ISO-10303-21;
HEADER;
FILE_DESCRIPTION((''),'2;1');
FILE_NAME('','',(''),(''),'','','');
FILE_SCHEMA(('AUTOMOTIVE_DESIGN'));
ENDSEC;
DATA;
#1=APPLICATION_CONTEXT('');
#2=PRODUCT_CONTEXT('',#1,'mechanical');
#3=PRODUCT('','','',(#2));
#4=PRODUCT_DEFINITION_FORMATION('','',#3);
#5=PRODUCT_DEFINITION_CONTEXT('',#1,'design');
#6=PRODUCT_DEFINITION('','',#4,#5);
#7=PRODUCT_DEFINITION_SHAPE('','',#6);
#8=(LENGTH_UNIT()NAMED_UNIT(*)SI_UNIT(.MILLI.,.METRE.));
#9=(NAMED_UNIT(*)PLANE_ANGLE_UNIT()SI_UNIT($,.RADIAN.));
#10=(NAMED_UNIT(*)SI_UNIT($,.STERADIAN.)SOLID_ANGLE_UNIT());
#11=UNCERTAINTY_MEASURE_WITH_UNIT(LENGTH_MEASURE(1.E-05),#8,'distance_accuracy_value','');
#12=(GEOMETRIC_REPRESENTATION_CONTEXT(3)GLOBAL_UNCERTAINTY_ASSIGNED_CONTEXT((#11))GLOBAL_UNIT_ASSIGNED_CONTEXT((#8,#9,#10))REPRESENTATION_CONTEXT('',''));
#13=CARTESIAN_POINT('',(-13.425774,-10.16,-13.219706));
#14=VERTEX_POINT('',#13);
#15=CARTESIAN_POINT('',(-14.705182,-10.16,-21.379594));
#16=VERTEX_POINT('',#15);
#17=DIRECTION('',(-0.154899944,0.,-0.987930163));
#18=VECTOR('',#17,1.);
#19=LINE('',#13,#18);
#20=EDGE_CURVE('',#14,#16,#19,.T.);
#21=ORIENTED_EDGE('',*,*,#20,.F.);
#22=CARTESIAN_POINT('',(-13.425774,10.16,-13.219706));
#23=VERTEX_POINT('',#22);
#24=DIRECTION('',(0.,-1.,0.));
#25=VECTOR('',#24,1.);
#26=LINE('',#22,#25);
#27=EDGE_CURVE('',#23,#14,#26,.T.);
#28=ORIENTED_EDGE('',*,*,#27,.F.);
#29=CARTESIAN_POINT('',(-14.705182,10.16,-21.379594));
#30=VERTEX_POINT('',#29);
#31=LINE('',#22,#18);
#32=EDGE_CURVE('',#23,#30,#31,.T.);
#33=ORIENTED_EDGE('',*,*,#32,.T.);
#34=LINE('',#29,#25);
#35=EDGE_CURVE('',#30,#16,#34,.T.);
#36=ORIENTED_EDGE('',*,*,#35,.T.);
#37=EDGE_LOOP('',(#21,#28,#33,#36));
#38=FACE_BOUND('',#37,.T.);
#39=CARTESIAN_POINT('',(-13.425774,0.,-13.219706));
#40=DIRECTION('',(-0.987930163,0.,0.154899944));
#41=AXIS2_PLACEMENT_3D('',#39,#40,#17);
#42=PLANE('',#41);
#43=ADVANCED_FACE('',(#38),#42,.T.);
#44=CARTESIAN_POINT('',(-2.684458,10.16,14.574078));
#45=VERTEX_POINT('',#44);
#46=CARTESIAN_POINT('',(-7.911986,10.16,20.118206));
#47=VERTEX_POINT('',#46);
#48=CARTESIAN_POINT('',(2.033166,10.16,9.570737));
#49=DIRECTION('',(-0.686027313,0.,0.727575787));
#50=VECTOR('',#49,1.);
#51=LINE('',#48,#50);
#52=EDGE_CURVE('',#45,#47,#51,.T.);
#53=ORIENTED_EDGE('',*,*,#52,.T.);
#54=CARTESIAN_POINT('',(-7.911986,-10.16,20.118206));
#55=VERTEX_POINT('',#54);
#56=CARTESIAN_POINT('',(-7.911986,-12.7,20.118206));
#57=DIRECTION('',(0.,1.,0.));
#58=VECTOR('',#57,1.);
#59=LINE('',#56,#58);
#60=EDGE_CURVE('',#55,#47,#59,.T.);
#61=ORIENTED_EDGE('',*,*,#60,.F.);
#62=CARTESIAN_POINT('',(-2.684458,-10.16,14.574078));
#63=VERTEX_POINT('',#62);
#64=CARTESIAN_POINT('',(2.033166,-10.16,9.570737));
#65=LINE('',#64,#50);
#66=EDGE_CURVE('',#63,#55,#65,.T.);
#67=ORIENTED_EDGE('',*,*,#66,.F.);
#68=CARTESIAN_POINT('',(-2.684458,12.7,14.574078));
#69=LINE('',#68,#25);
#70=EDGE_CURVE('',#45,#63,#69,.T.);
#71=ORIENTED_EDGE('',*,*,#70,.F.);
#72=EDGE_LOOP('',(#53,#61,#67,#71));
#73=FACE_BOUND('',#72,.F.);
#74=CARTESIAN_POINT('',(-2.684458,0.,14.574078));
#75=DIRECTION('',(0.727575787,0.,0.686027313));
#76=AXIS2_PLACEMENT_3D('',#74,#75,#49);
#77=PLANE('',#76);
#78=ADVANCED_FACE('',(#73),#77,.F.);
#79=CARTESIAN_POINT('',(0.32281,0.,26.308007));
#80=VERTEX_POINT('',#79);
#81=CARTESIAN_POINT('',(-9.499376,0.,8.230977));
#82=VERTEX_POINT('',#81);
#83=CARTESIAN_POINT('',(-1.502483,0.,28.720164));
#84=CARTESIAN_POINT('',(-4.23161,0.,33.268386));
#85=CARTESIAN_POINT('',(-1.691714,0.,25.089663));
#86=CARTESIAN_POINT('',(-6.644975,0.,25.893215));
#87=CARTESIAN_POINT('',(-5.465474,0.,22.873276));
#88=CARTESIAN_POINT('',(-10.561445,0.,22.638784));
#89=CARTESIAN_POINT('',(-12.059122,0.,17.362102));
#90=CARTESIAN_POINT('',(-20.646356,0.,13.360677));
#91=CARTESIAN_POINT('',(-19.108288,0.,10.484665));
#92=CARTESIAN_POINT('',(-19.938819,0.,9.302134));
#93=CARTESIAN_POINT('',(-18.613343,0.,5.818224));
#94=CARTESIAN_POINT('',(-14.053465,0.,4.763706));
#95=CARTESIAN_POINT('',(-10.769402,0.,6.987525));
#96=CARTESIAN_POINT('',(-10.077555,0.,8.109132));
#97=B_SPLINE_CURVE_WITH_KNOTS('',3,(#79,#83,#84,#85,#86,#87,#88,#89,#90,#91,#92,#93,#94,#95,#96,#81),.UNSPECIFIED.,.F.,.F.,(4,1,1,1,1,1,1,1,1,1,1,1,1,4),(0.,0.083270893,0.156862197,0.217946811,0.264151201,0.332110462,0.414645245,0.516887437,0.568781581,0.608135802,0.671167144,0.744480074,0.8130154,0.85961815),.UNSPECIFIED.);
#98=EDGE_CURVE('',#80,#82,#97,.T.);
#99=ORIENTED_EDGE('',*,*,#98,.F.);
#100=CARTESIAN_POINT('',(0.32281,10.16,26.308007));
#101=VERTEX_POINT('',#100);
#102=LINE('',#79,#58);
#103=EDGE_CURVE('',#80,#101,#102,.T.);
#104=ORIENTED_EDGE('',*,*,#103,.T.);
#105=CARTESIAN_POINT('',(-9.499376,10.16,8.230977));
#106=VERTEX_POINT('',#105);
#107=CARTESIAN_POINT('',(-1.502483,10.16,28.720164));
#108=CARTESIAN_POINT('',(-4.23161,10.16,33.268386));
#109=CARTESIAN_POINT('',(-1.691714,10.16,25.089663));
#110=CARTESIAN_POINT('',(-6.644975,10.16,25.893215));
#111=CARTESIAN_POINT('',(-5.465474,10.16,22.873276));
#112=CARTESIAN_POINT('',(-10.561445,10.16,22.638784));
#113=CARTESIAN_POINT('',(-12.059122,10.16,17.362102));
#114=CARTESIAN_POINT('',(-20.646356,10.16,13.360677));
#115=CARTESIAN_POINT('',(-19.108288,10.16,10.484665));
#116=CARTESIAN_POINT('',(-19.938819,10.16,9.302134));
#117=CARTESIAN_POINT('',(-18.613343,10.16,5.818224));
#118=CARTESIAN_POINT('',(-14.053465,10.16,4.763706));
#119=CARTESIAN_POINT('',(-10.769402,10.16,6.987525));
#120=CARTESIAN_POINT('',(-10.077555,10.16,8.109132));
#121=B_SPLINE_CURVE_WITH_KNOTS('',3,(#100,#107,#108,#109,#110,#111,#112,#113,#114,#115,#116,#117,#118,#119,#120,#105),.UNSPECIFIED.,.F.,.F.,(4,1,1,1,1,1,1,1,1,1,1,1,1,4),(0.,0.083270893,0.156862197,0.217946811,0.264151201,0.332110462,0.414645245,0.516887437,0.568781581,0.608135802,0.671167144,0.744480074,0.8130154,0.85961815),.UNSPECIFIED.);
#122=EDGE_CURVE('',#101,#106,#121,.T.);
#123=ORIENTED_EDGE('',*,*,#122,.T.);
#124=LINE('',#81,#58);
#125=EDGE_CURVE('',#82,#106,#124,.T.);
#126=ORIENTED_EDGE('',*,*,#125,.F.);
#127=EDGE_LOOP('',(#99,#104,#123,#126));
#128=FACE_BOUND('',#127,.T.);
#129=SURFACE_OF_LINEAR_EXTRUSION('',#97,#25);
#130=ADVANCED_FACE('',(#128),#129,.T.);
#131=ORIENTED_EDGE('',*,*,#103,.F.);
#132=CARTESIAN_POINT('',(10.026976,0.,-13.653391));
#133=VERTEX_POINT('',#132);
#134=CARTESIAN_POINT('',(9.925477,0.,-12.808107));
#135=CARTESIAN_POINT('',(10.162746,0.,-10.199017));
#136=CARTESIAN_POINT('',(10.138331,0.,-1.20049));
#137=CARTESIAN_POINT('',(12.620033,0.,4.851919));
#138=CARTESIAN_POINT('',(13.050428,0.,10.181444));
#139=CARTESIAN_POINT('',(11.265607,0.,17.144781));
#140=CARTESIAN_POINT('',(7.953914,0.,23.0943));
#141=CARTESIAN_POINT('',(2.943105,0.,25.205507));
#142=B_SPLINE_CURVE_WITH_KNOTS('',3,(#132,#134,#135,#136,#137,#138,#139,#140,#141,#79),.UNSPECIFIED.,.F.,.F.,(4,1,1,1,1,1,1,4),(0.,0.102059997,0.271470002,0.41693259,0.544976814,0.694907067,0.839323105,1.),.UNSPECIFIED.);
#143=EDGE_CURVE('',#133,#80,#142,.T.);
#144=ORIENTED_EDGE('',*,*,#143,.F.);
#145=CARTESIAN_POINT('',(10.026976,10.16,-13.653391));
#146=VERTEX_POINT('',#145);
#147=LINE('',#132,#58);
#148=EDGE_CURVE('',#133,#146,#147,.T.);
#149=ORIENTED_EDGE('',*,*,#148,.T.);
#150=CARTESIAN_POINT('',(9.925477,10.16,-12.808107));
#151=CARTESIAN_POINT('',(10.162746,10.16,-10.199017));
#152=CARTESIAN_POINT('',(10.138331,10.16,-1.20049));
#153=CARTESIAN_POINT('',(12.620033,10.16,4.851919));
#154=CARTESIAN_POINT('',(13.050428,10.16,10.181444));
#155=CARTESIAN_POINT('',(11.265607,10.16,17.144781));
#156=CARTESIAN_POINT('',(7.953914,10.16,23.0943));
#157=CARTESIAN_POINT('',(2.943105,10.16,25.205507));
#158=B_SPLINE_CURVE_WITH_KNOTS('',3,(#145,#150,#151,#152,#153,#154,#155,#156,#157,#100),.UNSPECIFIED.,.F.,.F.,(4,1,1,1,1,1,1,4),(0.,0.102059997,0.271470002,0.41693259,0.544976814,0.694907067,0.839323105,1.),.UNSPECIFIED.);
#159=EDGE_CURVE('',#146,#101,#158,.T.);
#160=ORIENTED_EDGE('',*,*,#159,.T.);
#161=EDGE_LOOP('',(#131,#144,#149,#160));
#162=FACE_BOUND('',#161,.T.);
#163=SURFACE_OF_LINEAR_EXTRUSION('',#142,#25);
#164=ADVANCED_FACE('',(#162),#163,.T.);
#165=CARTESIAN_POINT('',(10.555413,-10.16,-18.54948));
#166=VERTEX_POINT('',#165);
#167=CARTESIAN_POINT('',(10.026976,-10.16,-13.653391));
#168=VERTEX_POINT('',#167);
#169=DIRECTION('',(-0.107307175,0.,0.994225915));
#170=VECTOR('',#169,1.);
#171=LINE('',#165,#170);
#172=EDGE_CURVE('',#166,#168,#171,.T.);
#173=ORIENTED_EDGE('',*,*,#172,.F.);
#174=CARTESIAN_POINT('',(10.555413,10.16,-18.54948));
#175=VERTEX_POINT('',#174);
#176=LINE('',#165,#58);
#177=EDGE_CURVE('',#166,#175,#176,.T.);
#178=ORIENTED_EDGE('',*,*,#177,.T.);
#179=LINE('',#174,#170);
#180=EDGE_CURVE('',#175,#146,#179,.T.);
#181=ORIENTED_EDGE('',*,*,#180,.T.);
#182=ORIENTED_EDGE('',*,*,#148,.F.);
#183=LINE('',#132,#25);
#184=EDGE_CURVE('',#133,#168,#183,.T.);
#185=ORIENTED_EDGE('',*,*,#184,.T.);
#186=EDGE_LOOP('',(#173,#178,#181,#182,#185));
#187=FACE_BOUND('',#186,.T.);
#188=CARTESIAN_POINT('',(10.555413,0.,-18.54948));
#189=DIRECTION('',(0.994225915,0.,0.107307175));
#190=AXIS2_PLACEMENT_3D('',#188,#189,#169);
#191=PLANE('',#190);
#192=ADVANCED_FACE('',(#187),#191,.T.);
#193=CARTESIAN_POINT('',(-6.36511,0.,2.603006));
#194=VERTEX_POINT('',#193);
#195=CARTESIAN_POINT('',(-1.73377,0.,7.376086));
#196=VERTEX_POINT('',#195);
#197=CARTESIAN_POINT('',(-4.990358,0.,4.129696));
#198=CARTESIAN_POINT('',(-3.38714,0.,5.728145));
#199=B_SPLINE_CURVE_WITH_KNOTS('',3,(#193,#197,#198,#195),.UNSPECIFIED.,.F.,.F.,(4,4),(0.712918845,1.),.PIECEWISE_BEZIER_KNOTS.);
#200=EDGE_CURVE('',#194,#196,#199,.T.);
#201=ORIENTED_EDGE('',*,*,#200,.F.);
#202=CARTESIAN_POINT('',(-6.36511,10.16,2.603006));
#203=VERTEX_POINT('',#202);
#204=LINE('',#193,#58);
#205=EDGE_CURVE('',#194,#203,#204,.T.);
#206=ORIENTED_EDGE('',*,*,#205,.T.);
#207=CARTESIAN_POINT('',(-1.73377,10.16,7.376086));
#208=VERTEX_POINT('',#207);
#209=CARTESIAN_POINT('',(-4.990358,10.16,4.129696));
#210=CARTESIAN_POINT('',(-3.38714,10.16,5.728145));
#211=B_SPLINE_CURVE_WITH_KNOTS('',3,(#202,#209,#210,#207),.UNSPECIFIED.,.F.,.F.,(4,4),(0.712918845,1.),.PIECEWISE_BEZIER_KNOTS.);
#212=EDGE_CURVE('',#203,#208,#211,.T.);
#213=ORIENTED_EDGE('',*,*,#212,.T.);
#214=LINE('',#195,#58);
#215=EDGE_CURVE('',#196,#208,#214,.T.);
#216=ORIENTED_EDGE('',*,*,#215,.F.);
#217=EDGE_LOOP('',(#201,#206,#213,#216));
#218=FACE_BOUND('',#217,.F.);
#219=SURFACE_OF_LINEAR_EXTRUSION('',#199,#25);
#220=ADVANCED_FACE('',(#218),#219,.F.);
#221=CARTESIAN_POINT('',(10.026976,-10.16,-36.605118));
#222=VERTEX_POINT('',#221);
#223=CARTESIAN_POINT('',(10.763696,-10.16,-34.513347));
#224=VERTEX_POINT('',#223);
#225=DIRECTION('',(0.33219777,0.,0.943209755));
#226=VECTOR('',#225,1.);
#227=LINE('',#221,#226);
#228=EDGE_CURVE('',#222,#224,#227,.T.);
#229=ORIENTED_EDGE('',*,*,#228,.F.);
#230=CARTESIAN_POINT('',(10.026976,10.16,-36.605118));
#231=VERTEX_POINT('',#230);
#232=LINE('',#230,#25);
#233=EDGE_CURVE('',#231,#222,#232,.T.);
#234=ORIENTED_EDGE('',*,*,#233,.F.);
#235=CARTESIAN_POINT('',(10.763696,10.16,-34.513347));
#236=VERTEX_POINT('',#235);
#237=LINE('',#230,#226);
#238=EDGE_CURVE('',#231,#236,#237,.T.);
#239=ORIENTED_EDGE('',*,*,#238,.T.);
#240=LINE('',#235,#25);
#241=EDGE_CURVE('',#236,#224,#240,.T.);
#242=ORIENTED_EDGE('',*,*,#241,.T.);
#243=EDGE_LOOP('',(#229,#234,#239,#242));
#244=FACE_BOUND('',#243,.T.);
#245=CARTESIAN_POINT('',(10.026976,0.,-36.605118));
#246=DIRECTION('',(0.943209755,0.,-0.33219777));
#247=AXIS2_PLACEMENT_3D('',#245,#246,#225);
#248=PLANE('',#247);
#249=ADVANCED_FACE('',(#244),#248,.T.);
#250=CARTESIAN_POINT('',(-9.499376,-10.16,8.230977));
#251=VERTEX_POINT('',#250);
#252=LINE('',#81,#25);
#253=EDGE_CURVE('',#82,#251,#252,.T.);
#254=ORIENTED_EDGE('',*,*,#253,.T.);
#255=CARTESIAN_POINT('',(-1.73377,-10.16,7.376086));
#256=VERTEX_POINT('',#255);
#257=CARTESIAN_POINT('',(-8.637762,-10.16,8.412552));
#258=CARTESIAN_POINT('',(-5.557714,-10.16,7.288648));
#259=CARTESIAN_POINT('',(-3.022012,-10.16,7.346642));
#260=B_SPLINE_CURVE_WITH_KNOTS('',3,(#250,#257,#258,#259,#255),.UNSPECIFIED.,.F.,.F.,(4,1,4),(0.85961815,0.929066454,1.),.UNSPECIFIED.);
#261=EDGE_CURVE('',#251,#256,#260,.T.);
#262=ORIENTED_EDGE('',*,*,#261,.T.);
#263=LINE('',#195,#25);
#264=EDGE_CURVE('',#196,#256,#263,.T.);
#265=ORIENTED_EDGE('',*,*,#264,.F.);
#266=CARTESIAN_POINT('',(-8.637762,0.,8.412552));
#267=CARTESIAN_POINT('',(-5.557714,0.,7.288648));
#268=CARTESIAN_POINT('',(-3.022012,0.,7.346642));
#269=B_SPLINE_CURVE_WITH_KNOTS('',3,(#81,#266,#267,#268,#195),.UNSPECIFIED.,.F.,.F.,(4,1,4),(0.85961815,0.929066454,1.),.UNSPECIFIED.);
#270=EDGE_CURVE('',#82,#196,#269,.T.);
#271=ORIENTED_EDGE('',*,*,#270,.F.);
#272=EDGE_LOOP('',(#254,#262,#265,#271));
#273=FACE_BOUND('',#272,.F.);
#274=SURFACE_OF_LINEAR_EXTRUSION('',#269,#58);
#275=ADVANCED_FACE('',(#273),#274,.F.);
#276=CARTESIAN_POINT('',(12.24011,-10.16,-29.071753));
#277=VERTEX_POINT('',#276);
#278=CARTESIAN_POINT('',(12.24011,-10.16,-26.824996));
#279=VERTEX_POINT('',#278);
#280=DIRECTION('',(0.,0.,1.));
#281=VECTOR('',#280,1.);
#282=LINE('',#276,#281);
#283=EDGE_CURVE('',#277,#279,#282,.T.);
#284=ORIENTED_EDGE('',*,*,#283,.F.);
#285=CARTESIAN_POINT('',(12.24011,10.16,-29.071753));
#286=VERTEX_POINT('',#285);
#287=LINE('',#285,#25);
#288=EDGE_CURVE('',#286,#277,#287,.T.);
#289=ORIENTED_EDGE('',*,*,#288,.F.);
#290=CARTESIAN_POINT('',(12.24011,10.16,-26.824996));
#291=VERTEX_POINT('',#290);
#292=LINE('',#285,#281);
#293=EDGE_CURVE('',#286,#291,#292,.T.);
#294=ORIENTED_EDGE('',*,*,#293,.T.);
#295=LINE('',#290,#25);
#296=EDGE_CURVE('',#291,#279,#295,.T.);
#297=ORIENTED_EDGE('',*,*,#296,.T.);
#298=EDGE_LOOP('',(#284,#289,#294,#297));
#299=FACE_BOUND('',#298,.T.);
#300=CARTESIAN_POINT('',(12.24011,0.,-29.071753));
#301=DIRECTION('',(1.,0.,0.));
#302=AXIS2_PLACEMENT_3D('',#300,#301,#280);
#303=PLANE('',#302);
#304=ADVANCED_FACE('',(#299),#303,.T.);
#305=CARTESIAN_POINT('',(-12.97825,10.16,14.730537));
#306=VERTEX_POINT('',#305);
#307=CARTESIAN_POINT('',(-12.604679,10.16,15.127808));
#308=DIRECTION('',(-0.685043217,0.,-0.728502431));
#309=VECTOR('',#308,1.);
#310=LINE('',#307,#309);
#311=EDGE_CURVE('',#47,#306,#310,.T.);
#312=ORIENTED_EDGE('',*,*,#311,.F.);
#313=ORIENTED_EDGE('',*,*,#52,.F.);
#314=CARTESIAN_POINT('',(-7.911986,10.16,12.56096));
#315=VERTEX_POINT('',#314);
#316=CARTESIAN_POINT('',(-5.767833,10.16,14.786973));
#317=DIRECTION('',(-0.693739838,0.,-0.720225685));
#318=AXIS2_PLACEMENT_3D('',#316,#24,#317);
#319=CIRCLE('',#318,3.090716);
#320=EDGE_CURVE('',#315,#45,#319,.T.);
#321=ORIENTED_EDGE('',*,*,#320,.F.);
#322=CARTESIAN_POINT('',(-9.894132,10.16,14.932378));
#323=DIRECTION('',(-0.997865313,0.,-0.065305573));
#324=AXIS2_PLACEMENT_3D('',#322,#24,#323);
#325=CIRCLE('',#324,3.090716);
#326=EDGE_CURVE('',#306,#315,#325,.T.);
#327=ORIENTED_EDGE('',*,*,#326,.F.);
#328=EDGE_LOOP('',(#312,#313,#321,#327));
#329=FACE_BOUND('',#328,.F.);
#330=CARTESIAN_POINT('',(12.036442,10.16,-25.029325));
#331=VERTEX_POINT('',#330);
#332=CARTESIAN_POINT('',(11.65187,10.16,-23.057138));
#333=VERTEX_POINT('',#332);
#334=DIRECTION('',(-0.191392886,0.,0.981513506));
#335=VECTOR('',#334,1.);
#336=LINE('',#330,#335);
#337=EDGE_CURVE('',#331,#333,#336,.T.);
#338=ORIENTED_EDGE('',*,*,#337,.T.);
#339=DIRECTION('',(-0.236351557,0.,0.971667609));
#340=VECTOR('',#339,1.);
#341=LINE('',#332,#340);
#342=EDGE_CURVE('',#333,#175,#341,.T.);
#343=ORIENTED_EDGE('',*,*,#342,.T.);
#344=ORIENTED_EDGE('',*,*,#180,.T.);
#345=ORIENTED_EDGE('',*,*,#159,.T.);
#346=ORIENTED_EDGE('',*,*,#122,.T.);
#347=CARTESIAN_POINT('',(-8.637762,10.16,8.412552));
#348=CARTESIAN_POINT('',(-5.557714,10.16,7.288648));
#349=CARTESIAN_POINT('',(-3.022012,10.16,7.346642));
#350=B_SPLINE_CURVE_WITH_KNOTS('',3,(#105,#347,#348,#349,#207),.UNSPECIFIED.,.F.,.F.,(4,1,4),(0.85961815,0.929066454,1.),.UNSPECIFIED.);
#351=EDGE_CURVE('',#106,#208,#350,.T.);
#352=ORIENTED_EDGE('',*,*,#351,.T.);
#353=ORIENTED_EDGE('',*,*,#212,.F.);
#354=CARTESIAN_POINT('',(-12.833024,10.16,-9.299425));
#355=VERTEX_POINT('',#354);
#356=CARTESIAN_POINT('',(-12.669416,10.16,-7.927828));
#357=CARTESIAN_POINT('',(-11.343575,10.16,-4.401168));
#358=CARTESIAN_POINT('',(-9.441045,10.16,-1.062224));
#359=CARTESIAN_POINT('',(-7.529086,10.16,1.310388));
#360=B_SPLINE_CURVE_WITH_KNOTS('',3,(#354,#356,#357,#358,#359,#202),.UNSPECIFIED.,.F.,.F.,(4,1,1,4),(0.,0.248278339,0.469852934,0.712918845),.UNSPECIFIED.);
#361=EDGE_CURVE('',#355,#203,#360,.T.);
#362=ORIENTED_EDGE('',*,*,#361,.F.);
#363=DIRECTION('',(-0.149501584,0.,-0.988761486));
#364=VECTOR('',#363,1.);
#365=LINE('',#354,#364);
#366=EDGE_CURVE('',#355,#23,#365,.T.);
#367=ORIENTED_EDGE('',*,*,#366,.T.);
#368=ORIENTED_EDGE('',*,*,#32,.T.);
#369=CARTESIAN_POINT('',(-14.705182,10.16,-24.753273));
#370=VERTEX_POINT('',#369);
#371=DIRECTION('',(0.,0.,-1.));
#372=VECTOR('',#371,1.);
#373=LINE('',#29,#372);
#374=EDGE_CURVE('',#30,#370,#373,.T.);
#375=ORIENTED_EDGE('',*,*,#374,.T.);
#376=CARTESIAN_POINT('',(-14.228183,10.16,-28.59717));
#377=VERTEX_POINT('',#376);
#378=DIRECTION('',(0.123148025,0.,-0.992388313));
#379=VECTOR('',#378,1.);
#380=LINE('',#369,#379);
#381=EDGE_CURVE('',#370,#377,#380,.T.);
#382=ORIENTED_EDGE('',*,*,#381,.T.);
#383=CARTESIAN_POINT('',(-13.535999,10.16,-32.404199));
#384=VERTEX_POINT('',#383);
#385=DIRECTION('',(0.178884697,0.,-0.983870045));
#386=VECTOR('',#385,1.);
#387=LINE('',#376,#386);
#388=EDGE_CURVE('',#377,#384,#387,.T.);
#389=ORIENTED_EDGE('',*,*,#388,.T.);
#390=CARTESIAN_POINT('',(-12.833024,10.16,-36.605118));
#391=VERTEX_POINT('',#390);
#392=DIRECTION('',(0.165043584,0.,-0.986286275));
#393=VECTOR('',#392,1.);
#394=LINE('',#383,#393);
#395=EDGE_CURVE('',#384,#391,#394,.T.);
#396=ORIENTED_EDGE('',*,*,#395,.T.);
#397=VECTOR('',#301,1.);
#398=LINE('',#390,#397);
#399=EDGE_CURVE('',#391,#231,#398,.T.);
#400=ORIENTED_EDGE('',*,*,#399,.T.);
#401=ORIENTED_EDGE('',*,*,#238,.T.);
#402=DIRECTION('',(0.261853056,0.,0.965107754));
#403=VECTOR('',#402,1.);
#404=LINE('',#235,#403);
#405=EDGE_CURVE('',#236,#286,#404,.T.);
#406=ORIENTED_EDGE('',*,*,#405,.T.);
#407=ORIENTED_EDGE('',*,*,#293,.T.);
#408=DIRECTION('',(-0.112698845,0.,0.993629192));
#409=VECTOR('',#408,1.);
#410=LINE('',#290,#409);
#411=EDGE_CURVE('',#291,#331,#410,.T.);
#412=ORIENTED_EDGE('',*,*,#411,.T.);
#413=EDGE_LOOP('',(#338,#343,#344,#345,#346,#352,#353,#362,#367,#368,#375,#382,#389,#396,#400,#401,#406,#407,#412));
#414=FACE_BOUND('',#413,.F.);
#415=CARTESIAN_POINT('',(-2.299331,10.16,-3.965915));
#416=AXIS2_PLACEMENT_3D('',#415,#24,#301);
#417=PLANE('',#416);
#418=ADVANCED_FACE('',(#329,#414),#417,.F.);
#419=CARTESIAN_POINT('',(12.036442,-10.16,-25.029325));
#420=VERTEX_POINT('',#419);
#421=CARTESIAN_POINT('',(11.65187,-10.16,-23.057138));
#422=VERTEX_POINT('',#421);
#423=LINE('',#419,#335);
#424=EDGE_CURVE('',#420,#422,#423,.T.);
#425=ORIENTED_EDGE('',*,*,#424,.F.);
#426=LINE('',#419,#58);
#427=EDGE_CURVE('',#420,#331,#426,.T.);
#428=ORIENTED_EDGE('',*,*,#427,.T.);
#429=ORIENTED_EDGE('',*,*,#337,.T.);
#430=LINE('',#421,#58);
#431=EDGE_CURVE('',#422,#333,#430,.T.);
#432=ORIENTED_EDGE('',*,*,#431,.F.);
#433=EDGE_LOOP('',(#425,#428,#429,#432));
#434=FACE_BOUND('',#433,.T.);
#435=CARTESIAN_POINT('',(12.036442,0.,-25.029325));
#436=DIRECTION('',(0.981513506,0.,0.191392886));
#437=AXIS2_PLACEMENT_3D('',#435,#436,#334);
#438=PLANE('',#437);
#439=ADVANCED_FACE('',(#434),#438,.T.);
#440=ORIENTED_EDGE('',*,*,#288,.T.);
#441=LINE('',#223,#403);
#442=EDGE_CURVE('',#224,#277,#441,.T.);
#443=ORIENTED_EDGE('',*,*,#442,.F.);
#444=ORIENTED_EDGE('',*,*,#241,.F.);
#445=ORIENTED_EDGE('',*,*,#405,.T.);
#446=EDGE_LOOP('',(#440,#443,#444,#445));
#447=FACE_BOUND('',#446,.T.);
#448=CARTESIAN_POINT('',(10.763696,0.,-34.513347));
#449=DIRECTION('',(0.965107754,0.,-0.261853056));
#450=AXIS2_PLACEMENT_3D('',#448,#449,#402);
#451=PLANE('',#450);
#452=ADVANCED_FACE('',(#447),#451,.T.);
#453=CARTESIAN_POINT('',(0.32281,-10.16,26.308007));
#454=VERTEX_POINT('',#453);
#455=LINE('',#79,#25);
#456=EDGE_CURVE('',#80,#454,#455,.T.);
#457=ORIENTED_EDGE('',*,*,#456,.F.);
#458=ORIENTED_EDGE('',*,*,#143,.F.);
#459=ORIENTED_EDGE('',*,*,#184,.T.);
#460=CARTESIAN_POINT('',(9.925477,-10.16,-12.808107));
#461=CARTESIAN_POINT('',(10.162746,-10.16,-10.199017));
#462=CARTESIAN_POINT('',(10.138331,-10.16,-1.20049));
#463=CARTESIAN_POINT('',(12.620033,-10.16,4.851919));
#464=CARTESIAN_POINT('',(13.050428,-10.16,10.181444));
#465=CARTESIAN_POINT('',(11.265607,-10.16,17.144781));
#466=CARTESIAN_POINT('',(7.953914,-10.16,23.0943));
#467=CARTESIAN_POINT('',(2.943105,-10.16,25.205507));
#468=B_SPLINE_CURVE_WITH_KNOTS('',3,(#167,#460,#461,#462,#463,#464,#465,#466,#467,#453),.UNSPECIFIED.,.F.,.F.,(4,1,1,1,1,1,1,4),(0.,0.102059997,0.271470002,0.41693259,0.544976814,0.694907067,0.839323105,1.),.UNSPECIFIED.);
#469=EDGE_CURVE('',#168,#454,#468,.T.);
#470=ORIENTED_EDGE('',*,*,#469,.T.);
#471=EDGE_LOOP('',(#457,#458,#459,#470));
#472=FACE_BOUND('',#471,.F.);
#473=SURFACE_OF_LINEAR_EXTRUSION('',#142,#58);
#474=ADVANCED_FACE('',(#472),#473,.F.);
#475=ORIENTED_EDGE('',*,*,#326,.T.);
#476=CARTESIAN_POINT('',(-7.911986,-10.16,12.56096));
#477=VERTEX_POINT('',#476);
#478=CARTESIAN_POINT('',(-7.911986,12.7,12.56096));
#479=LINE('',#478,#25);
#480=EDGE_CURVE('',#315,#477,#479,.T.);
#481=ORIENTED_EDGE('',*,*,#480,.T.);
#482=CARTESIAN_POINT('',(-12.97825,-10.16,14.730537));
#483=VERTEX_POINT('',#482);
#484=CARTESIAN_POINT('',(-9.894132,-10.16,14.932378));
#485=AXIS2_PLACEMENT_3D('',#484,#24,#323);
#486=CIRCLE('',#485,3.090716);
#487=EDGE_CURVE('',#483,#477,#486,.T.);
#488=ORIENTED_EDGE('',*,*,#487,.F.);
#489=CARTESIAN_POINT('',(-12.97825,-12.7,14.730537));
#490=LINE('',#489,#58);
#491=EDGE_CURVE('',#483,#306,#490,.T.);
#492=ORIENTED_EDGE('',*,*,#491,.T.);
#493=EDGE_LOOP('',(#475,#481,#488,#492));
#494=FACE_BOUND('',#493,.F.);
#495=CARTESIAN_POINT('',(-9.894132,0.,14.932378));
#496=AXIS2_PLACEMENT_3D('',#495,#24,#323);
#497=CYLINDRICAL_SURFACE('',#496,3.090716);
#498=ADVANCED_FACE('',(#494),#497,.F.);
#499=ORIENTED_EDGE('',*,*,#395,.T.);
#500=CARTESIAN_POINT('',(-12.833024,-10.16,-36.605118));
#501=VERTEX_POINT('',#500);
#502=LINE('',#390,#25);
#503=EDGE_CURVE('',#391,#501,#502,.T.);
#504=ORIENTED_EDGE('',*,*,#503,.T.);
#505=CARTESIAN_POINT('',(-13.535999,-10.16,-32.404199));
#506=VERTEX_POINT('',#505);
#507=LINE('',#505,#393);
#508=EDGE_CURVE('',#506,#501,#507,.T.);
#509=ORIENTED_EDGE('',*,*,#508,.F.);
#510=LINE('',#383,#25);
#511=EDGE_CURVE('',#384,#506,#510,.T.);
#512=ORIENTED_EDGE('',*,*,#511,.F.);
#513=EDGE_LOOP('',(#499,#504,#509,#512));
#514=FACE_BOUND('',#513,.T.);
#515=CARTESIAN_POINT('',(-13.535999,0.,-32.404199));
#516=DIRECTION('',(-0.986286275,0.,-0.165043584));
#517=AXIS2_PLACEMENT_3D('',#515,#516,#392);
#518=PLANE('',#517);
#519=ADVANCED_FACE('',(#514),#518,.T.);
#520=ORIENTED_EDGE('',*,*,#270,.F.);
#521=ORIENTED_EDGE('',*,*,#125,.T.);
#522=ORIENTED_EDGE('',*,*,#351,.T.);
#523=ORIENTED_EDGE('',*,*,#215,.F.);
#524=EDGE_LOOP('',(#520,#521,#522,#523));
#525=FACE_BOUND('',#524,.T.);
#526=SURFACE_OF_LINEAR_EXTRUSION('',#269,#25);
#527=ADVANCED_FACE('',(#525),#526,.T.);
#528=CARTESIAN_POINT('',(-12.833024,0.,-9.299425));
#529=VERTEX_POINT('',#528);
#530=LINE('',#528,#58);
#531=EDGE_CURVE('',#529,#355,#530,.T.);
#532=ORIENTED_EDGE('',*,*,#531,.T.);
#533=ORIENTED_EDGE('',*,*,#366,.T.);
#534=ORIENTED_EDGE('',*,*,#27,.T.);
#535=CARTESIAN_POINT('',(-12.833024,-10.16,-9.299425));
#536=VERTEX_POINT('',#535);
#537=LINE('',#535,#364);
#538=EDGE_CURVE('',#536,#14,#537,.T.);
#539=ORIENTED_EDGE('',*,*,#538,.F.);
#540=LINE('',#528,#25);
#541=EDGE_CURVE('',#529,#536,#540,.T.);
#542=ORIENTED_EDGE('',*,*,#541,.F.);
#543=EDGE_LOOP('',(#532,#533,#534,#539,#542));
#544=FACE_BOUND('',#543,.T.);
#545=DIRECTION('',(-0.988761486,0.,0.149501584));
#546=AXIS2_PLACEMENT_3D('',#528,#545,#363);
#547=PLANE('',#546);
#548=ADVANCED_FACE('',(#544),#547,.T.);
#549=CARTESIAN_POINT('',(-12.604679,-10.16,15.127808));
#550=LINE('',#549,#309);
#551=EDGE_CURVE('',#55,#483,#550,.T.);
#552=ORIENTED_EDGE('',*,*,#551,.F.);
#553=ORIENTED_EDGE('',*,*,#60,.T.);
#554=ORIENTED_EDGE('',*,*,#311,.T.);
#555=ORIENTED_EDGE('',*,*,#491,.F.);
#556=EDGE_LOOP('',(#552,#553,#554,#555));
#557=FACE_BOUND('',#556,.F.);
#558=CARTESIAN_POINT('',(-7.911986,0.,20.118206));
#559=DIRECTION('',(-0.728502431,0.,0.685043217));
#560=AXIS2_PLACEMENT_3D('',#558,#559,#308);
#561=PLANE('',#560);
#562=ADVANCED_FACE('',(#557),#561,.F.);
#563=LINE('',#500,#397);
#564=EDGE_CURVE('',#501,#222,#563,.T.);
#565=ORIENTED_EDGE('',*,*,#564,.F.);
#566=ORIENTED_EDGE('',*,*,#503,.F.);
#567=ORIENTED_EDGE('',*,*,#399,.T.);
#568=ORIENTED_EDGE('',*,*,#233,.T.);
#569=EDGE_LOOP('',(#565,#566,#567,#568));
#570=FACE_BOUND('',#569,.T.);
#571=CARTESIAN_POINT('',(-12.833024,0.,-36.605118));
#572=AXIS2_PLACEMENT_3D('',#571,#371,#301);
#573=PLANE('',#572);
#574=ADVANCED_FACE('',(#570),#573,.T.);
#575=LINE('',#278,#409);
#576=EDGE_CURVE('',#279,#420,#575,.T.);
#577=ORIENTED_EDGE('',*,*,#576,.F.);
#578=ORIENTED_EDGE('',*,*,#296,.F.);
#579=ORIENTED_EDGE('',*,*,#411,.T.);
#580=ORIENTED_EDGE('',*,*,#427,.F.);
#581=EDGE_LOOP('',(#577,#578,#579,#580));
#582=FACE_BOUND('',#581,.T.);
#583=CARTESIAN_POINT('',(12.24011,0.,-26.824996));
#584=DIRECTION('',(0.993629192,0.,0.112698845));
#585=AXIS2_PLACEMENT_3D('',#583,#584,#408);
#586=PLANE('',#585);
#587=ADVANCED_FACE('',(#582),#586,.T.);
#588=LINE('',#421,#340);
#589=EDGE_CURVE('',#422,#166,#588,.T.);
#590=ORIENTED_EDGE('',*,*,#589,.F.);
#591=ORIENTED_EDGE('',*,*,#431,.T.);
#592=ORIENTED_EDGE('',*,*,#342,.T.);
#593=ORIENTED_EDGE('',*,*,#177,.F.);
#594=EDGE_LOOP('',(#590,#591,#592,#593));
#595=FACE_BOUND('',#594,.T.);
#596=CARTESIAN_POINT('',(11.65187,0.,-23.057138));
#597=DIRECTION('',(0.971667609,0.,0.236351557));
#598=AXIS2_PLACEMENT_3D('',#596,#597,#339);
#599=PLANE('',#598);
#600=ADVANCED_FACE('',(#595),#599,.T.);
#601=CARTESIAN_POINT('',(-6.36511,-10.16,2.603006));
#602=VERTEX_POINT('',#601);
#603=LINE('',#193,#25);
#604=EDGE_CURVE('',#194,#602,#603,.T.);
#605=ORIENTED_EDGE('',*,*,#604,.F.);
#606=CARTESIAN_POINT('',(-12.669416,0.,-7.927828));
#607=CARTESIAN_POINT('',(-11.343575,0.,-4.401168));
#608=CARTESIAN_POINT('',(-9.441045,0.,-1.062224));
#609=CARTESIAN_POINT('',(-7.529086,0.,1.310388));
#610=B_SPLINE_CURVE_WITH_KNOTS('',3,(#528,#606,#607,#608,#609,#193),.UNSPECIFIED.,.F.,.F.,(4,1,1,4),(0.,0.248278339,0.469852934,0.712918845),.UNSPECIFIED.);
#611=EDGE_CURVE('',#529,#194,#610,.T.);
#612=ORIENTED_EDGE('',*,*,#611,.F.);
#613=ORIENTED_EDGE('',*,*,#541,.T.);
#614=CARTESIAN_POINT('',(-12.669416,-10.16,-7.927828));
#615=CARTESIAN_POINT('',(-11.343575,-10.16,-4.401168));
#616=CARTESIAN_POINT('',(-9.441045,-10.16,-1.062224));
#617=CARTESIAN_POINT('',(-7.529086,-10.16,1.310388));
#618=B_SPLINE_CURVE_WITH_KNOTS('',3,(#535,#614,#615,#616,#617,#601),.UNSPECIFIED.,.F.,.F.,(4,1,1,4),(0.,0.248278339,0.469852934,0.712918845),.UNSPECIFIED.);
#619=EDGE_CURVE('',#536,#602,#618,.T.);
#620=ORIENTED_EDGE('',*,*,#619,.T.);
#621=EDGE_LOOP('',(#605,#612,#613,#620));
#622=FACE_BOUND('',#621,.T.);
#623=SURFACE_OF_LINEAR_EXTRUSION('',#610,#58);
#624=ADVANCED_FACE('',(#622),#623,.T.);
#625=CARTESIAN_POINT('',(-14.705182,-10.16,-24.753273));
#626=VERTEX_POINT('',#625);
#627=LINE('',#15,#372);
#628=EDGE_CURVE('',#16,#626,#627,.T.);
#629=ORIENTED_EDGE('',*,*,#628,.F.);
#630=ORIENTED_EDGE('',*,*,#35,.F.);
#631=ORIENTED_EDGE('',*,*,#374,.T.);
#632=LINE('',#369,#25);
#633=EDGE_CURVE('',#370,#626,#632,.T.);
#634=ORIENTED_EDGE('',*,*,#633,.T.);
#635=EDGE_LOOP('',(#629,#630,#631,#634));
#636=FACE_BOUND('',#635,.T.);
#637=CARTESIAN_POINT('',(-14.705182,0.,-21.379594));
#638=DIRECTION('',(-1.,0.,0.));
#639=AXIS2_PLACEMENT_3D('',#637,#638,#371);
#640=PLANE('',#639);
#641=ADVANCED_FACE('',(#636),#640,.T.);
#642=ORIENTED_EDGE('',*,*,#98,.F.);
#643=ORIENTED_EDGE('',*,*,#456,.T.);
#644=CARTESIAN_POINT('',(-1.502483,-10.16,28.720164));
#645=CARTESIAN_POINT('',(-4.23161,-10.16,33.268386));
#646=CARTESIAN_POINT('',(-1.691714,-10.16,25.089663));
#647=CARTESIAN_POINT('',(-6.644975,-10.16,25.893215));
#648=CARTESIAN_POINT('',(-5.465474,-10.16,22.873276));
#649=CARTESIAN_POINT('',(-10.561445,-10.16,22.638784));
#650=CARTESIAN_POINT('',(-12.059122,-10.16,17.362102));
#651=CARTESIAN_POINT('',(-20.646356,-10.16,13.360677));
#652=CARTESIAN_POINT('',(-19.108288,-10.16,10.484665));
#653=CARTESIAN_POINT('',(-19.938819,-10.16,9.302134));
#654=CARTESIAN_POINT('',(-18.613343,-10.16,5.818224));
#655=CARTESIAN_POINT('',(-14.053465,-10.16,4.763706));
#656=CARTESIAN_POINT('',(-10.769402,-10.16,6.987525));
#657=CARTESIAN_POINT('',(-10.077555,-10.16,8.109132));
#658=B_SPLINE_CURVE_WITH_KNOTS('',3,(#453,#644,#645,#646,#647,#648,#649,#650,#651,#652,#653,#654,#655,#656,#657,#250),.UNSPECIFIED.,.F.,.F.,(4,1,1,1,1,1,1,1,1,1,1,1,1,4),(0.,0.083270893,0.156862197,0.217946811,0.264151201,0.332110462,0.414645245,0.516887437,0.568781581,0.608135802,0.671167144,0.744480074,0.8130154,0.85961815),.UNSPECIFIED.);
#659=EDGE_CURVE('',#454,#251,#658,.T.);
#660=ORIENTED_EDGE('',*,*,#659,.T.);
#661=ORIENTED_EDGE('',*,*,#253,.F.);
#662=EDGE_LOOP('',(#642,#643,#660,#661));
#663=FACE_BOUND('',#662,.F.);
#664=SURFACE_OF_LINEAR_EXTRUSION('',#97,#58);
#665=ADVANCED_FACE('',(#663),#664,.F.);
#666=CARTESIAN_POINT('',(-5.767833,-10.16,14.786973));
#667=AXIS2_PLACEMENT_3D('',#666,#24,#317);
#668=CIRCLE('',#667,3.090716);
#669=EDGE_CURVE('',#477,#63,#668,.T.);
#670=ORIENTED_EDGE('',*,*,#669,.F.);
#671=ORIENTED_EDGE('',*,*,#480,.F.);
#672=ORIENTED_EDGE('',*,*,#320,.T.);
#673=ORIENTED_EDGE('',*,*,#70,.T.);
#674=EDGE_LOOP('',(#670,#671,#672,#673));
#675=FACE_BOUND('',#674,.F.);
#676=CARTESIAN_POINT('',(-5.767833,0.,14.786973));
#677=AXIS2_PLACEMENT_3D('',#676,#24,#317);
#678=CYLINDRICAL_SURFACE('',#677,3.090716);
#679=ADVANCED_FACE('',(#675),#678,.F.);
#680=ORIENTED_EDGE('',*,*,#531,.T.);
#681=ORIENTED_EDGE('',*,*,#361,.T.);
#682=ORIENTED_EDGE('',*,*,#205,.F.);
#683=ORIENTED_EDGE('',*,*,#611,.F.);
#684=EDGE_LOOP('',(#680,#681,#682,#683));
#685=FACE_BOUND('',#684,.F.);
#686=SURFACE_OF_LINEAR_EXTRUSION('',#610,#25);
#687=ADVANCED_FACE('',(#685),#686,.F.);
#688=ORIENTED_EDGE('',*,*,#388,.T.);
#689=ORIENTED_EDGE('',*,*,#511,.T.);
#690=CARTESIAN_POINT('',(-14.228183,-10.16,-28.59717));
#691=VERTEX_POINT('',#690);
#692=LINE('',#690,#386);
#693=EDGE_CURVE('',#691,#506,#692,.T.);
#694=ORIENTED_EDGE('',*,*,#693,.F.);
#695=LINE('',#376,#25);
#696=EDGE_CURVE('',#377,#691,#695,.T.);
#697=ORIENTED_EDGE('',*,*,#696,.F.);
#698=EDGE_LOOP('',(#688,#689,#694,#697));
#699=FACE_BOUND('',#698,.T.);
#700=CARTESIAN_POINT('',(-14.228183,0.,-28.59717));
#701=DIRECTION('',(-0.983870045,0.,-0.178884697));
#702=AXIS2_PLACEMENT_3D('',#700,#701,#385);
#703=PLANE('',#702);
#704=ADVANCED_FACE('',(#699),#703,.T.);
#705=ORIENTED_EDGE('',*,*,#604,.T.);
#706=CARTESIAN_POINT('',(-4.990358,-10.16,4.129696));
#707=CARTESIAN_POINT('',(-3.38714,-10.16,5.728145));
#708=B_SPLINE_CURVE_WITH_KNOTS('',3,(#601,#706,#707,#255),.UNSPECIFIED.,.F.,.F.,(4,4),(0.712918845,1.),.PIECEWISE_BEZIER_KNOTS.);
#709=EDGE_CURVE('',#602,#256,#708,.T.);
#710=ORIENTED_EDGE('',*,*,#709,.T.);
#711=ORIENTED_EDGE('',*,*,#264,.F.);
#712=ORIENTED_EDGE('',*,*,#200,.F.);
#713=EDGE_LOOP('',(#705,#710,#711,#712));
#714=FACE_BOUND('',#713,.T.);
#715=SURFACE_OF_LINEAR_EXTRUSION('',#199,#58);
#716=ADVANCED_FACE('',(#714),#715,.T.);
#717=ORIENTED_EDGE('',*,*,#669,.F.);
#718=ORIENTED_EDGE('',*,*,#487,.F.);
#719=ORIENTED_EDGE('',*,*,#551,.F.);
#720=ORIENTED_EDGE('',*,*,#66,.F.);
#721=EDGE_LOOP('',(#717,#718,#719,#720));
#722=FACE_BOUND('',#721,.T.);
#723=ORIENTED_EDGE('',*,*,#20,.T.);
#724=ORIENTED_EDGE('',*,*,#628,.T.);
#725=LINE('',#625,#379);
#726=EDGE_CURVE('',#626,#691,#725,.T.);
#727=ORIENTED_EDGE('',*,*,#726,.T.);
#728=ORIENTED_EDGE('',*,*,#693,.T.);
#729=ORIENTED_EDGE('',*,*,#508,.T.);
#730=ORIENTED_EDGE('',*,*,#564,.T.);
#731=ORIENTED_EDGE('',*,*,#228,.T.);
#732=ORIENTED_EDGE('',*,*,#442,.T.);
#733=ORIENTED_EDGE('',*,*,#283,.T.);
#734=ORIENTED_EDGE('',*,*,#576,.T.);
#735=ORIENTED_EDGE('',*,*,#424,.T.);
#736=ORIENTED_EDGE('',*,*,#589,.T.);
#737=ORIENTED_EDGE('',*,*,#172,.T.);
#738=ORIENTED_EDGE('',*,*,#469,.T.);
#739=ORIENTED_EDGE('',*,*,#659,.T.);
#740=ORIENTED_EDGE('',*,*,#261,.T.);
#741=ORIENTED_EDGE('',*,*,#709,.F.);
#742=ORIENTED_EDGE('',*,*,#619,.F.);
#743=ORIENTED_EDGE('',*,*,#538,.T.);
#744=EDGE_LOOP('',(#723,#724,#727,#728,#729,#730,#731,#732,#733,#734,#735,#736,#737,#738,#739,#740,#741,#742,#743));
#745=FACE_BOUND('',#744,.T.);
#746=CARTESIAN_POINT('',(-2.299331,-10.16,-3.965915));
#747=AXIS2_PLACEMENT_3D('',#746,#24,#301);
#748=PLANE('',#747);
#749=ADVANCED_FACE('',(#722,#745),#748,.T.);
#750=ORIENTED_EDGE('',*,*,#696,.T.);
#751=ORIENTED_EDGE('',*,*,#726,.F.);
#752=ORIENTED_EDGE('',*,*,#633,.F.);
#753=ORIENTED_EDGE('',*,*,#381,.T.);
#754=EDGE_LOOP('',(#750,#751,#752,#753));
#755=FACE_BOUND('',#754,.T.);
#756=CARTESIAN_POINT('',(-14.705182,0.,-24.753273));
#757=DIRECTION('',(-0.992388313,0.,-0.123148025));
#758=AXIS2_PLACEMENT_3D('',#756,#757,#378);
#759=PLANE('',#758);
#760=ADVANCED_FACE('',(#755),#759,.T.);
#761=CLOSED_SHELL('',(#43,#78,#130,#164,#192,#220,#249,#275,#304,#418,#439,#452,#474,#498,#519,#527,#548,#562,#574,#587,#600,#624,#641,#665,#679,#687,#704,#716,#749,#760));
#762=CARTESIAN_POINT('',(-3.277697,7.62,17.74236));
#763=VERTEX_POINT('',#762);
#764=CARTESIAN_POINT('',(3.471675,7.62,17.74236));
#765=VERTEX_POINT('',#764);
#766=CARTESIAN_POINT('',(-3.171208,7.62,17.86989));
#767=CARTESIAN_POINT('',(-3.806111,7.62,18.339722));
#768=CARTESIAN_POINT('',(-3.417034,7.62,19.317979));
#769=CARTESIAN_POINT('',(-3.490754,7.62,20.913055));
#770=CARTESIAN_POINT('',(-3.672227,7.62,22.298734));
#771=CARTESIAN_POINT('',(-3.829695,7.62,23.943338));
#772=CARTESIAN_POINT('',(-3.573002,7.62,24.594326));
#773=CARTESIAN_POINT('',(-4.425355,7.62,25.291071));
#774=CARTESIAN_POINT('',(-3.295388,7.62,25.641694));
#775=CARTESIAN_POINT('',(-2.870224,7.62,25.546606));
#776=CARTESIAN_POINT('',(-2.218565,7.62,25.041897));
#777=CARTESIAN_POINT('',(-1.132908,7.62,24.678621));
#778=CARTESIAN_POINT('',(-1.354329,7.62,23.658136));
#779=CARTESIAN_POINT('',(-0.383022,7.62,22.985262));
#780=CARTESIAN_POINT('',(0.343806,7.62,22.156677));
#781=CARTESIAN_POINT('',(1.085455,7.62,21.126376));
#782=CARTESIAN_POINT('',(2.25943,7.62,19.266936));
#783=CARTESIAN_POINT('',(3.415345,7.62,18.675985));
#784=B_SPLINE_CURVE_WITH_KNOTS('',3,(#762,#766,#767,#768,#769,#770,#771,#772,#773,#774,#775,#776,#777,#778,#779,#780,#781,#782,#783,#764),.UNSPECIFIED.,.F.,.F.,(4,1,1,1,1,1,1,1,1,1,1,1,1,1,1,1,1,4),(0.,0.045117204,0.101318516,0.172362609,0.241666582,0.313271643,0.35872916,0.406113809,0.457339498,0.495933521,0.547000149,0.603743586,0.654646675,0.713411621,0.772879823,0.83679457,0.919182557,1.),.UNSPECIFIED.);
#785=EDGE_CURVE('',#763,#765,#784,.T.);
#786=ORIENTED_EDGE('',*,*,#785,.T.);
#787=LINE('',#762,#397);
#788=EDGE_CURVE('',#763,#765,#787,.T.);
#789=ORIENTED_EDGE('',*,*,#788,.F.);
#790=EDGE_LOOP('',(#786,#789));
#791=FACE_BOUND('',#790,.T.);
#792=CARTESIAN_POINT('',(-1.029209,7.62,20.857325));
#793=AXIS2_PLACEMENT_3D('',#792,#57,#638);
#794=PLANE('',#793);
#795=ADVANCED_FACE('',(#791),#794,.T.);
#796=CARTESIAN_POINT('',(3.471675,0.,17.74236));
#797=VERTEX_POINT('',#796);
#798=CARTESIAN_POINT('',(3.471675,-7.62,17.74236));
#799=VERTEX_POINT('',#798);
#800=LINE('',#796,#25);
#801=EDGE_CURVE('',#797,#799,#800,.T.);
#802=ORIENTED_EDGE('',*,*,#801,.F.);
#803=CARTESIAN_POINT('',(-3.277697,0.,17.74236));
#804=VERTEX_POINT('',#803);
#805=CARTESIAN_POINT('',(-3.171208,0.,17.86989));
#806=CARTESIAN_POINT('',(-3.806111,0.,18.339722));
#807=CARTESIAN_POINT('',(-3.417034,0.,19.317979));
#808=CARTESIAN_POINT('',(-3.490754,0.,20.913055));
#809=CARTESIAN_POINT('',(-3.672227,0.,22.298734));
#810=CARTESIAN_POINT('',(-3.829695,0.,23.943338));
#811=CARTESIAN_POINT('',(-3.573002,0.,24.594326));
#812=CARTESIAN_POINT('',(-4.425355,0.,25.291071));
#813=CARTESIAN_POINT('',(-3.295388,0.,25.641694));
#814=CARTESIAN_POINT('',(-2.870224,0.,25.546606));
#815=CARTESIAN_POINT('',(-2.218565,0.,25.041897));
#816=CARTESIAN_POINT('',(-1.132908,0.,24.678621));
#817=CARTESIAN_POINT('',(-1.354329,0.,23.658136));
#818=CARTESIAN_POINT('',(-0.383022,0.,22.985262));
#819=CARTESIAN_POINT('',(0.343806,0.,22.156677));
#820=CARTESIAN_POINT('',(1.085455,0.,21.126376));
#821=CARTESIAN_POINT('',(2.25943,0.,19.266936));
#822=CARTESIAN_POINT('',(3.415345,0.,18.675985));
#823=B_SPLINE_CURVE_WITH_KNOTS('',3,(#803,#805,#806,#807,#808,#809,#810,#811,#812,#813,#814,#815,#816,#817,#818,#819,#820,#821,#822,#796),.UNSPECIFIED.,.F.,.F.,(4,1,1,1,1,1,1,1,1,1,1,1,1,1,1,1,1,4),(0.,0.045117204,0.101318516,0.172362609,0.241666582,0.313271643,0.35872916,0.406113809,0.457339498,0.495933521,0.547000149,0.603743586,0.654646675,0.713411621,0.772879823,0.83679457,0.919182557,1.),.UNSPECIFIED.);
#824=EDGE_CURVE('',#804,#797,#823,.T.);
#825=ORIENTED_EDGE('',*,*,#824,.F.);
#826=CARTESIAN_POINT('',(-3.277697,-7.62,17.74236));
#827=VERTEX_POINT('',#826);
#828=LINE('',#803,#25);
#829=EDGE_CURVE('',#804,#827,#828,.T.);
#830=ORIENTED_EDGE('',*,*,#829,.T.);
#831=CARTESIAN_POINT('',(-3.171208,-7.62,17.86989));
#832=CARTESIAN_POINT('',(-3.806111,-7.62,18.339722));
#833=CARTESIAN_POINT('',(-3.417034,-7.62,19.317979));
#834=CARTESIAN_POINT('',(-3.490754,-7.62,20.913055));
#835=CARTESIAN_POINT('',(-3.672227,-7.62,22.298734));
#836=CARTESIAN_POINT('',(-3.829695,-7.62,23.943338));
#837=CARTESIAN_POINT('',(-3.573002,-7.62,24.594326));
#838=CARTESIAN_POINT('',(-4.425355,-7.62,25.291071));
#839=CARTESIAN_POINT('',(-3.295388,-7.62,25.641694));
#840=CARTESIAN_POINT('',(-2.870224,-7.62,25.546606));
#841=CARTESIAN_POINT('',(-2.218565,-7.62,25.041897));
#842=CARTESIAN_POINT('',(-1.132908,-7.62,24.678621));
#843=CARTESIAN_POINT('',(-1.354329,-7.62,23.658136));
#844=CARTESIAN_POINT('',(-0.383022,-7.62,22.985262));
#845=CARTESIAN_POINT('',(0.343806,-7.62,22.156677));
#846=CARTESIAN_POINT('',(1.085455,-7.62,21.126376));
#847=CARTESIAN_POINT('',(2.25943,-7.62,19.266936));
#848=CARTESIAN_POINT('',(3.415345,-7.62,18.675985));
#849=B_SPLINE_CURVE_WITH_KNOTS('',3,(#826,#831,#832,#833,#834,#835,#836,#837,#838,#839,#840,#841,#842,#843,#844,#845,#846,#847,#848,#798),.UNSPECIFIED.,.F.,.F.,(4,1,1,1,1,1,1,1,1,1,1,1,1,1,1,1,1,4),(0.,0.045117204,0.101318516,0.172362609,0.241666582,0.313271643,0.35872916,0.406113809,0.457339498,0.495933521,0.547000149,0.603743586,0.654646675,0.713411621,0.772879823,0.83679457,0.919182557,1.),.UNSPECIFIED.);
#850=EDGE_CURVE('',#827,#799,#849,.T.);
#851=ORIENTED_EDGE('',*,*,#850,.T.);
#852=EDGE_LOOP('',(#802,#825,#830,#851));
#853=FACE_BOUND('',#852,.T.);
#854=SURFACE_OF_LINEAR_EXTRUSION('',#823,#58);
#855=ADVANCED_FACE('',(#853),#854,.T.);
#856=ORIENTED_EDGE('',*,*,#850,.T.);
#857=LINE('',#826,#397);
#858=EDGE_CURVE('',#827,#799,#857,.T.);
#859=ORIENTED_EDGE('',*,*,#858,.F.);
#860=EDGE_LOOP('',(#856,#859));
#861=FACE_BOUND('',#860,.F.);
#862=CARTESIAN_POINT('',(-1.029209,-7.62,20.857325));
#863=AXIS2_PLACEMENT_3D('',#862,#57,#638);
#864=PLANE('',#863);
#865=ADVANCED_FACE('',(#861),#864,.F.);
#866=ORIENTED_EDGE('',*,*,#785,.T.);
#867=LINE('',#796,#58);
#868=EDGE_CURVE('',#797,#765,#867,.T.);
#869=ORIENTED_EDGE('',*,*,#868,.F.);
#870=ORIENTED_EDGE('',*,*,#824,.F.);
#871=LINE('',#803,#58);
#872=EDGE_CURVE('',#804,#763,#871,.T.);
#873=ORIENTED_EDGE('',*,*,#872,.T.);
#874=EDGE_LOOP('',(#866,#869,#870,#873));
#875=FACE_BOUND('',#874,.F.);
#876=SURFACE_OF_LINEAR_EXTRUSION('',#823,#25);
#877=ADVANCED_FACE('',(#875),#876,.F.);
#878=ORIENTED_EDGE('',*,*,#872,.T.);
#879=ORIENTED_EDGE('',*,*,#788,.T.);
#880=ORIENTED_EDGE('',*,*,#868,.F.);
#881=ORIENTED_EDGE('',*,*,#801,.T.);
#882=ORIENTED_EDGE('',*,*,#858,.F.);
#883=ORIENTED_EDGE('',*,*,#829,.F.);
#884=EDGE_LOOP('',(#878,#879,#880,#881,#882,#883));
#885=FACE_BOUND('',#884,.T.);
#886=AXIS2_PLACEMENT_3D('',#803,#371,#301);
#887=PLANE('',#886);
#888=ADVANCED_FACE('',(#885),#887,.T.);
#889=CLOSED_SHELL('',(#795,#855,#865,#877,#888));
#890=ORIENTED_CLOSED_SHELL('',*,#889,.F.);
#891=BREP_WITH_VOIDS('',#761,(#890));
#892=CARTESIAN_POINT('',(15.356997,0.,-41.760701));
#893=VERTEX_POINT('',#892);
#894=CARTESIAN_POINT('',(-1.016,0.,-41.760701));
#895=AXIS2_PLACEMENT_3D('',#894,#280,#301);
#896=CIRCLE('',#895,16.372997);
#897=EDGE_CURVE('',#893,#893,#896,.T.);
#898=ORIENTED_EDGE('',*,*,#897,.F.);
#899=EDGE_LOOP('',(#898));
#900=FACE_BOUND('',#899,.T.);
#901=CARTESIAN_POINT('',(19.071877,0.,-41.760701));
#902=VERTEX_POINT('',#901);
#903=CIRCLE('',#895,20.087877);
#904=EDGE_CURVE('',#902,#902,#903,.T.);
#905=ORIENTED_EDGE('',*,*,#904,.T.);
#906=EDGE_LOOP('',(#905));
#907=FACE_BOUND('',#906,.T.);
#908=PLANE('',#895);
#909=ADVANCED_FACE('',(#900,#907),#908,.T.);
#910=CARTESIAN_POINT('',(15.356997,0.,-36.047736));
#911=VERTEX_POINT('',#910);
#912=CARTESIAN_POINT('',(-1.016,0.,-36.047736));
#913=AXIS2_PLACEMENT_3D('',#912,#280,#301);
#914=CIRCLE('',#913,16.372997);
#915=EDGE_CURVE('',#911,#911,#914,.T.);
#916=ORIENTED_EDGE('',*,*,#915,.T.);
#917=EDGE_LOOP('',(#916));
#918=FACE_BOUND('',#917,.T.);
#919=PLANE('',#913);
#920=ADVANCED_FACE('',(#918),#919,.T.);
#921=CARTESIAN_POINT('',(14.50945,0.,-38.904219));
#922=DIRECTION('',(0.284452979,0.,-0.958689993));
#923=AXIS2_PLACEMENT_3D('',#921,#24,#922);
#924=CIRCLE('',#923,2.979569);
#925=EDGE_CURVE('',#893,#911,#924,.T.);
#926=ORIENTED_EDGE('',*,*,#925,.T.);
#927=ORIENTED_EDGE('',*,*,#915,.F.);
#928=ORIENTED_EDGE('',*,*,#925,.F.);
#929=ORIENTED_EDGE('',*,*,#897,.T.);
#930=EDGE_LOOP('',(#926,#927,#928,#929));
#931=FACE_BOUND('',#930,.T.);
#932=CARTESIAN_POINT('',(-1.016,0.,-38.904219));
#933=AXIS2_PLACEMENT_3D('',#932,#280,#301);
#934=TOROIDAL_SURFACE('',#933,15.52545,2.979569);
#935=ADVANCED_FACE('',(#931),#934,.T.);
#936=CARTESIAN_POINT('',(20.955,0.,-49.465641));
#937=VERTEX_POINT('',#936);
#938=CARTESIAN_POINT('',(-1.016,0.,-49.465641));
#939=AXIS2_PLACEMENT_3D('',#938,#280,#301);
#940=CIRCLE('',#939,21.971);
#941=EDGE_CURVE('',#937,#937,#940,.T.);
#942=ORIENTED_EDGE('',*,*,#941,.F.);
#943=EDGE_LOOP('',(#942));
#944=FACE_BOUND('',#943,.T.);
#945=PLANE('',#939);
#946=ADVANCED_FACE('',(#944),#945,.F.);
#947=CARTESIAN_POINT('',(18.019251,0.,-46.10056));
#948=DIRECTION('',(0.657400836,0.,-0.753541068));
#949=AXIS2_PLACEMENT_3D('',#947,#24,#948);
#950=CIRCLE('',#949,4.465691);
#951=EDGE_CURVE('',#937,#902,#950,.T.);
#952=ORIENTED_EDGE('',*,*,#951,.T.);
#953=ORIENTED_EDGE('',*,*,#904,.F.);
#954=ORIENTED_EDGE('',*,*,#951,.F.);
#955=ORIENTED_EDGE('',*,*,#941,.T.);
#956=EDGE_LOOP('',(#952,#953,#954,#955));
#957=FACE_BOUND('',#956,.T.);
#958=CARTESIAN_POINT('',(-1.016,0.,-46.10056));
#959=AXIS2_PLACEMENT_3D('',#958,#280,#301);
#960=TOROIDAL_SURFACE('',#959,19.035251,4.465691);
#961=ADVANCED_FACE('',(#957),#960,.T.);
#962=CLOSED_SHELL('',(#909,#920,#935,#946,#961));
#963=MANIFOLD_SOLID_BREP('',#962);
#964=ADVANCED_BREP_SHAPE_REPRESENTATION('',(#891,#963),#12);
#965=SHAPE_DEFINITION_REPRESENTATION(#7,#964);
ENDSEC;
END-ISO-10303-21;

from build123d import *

# Parameters (mm, degrees)
F2_DEPTH = 10.16
F3_DEPTH = 12.7
F5_DEPTH = 7.62


with BuildPart() as f2:
    # F1 (on Front) → F2 (new body, symmetric)
    with BuildSketch(Plane.XZ):
        with BuildLine():
            Line((10.5554129264, -18.5494795613), (10.0269762871, -13.6533912724))
            add(Edge.make_bspline(
                [(10.0269762871, -13.6533912724), (9.9254772442, -12.808107328), (10.1627458289, -10.1990172424), (10.1383309556, -1.2004898982), (12.6200332011, 4.8519194563), (13.0504278143, 10.1814444052), (11.2656074053, 17.1447808987), (7.9539143316, 23.094300054), (2.9431047731, 25.2055068541), (0.322809949, 26.3080072907)],
                knots=[0, 0, 0, 0, 0.1020599974, 0.2714700022, 0.4169325904, 0.5449768144, 0.6949070669, 0.8393231053, 1, 1, 1, 1], degree=3))
            add(Edge.make_bspline(
                [(0.322809949, 26.3080072907), (-1.5024831933, 28.720163548), (-4.231610095, 33.2683857963), (-1.6917140249, 25.0896627897), (-6.6449753237, 25.8932149649), (-5.4654742501, 22.8732763259), (-10.5614446883, 22.6387844312), (-12.0591221595, 17.3621015904), (-20.6463557667, 13.3606773003), (-19.1082883249, 10.4846652121), (-19.938818729, 9.3021340453), (-18.6133432439, 5.8182242429), (-14.0534651128, 4.7637056946), (-10.7694021128, 6.987525174), (-10.0775546031, 8.1091317783), (-9.499375634, 8.2309765589)],
                knots=[0, 0, 0, 0, 0.0832708927, 0.1568621971, 0.2179468105, 0.2641512011, 0.3321104616, 0.4146452453, 0.5168874372, 0.5687815807, 0.6081358017, 0.6711671438, 0.7444800735, 0.8130153998, 0.8596181504, 0.8596181504, 0.8596181504, 0.8596181504], degree=3))
            add(Edge.make_bspline(
                [(-9.499375634, 8.2309765589), (-8.6377623617, 8.4125519635), (-5.5577140638, 7.2886481795), (-3.0220120214, 7.346641699), (-1.7337704123, 7.3760862665)],
                knots=[0.8596181504, 0.8596181504, 0.8596181504, 0.8596181504, 0.9290664537, 1, 1, 1, 1], degree=3))
            add(Edge.make_bspline(
                [(-6.3651104475, 2.6030058508), (-4.990357688, 4.1296961302), (-3.3871403251, 5.7281450318), (-1.7337704123, 7.3760862665)],
                knots=[0.7129188453, 0.7129188453, 0.7129188453, 0.7129188453, 1, 1, 1, 1], degree=3))
            add(Edge.make_bspline(
                [(-12.8330237129, -9.2994246634), (-12.6694164236, -7.9278284548), (-11.343574751, -4.4011680917), (-9.4410453546, -1.0622243971), (-7.5290863025, 1.3103875156), (-6.3651104475, 2.6030058508)],
                knots=[0, 0, 0, 0, 0.2482783386, 0.4698529339, 0.7129188453, 0.7129188453, 0.7129188453, 0.7129188453], degree=3))
            Line((-12.8330237129, -9.2994246634), (-13.4257735625, -13.2197056836))
            Line((-13.4257735625, -13.2197056836), (-14.7051820531, -21.3795939607))
            Line((-14.7051820531, -21.3795939607), (-14.7051820531, -24.7532725621))
            Line((-14.7051820531, -24.7532725621), (-14.2281828448, -28.597170487))
            Line((-14.2281828448, -28.597170487), (-13.5359987617, -32.4041992426))
            Line((-13.5359987617, -32.4041992426), (-12.8330237129, -36.6051177269))
            Line((-12.8330237129, -36.6051177269), (10.0269762871, -36.6051177269))
            Line((10.0269762871, -36.6051177269), (10.7636962305, -34.5133474029))
            Line((10.7636962305, -34.5133474029), (12.2401098008, -29.0717527703))
            Line((12.2401098008, -29.0717527703), (12.2401098008, -26.8249964274))
            Line((12.2401098008, -26.8249964274), (12.0364421266, -25.0293245472))
            Line((12.0364421266, -25.0293245472), (11.6518702296, -23.0571378168))
            Line((11.6518702296, -23.0571378168), (10.5554129264, -18.5494795613))
        make_face()
    extrude(amount=F2_DEPTH, both=True)

    # F0 (on Front) → F3 (cut, symmetric)
    with BuildSketch(Plane.XZ):
        with BuildLine():
            ThreePointArc((-12.9782501608, 14.7305373102), (-11.110829069, 12.0912211304), (-7.911986011, 12.5609599102))
            ThreePointArc((-7.911986011, 12.5609599102), (-4.6571143713, 11.9027347915), (-2.6844578886, 14.5740782921))
            Line((-2.6844578886, 14.5740782921), (-7.911986011, 20.1182057915))
            Line((-7.911986011, 20.1182057915), (-12.9782501608, 14.7305373102))
        make_face()
    extrude(amount=F3_DEPTH, both=True, mode=Mode.SUBTRACT)

    # F4 (on Front) → F5 (cut, symmetric)
    with BuildSketch(Plane.XZ):
        with BuildLine():
            add(Edge.make_bspline(
                [(-3.2776971348, 17.7423600107), (-3.1712084857, 17.8698898668), (-3.8061112165, 18.3397222168), (-3.4170336615, 19.3179792004), (-3.4907541645, 20.9130550981), (-3.6722273176, 22.2987340557), (-3.8296949872, 23.9433377408), (-3.5730017716, 24.5943262628), (-4.4253551033, 25.2910713282), (-3.2953877587, 25.641693645), (-2.870224182, 25.5466057694), (-2.2185648699, 25.0418967646), (-1.1329080011, 24.6786210935), (-1.3543289316, 23.658135887), (-0.3830221548, 22.9852620262), (0.3438061842, 22.1566766612), (1.0854547676, 21.1263761553), (2.2594298282, 19.2669361664), (3.4153453345, 18.6759846001), (3.4716748632, 17.7423600107)],
                knots=[0, 0, 0, 0, 0.0451172044, 0.1013185163, 0.1723626086, 0.2416665816, 0.3132716431, 0.3587291597, 0.4061138085, 0.4573394977, 0.4959335212, 0.5470001493, 0.603743586, 0.6546466754, 0.7134116206, 0.772879823, 0.8367945703, 0.919182557, 1, 1, 1, 1], degree=3))
            Line((-3.2776971348, 17.7423600107), (3.4716748632, 17.7423600107))
        make_face()
    extrude(amount=F5_DEPTH, both=True, mode=Mode.SUBTRACT)


with BuildPart() as f7:
    # F6 (on Front) → F7 (revolve)
    with BuildSketch(Plane.XZ):
        with BuildLine():
            Line((-1.0160000529, -36.0477361359), (-1.0160000529, -49.4656413794))
            Line((-1.0160000529, -49.4656413794), (19.0718770629, -49.4656413794))
            Line((19.0718770629, -49.4656413794), (20.9549999471, -49.4656413794))
            ThreePointArc((20.9549999471, -49.4656413794), (22.3572585171, -45.0403309852), (19.0718770629, -41.7607014508))
            Line((19.0718770629, -41.7607014508), (15.3569968324, -41.7607014508))
            ThreePointArc((15.3569968324, -41.7607014508), (17.4890183102, -38.9042187934), (15.3569968324, -36.0477361359))
            Line((15.3569968324, -36.0477361359), (10.5426595196, -36.0477361359))
            Line((10.5426595196, -36.0477361359), (-1.0160000529, -36.0477361359))
        make_face()
    revolve(axis=Axis((-1.0160000529, 0, -9.3845678493), (0, 0, 1)))


solid = Compound([f2.part, f7.part])
